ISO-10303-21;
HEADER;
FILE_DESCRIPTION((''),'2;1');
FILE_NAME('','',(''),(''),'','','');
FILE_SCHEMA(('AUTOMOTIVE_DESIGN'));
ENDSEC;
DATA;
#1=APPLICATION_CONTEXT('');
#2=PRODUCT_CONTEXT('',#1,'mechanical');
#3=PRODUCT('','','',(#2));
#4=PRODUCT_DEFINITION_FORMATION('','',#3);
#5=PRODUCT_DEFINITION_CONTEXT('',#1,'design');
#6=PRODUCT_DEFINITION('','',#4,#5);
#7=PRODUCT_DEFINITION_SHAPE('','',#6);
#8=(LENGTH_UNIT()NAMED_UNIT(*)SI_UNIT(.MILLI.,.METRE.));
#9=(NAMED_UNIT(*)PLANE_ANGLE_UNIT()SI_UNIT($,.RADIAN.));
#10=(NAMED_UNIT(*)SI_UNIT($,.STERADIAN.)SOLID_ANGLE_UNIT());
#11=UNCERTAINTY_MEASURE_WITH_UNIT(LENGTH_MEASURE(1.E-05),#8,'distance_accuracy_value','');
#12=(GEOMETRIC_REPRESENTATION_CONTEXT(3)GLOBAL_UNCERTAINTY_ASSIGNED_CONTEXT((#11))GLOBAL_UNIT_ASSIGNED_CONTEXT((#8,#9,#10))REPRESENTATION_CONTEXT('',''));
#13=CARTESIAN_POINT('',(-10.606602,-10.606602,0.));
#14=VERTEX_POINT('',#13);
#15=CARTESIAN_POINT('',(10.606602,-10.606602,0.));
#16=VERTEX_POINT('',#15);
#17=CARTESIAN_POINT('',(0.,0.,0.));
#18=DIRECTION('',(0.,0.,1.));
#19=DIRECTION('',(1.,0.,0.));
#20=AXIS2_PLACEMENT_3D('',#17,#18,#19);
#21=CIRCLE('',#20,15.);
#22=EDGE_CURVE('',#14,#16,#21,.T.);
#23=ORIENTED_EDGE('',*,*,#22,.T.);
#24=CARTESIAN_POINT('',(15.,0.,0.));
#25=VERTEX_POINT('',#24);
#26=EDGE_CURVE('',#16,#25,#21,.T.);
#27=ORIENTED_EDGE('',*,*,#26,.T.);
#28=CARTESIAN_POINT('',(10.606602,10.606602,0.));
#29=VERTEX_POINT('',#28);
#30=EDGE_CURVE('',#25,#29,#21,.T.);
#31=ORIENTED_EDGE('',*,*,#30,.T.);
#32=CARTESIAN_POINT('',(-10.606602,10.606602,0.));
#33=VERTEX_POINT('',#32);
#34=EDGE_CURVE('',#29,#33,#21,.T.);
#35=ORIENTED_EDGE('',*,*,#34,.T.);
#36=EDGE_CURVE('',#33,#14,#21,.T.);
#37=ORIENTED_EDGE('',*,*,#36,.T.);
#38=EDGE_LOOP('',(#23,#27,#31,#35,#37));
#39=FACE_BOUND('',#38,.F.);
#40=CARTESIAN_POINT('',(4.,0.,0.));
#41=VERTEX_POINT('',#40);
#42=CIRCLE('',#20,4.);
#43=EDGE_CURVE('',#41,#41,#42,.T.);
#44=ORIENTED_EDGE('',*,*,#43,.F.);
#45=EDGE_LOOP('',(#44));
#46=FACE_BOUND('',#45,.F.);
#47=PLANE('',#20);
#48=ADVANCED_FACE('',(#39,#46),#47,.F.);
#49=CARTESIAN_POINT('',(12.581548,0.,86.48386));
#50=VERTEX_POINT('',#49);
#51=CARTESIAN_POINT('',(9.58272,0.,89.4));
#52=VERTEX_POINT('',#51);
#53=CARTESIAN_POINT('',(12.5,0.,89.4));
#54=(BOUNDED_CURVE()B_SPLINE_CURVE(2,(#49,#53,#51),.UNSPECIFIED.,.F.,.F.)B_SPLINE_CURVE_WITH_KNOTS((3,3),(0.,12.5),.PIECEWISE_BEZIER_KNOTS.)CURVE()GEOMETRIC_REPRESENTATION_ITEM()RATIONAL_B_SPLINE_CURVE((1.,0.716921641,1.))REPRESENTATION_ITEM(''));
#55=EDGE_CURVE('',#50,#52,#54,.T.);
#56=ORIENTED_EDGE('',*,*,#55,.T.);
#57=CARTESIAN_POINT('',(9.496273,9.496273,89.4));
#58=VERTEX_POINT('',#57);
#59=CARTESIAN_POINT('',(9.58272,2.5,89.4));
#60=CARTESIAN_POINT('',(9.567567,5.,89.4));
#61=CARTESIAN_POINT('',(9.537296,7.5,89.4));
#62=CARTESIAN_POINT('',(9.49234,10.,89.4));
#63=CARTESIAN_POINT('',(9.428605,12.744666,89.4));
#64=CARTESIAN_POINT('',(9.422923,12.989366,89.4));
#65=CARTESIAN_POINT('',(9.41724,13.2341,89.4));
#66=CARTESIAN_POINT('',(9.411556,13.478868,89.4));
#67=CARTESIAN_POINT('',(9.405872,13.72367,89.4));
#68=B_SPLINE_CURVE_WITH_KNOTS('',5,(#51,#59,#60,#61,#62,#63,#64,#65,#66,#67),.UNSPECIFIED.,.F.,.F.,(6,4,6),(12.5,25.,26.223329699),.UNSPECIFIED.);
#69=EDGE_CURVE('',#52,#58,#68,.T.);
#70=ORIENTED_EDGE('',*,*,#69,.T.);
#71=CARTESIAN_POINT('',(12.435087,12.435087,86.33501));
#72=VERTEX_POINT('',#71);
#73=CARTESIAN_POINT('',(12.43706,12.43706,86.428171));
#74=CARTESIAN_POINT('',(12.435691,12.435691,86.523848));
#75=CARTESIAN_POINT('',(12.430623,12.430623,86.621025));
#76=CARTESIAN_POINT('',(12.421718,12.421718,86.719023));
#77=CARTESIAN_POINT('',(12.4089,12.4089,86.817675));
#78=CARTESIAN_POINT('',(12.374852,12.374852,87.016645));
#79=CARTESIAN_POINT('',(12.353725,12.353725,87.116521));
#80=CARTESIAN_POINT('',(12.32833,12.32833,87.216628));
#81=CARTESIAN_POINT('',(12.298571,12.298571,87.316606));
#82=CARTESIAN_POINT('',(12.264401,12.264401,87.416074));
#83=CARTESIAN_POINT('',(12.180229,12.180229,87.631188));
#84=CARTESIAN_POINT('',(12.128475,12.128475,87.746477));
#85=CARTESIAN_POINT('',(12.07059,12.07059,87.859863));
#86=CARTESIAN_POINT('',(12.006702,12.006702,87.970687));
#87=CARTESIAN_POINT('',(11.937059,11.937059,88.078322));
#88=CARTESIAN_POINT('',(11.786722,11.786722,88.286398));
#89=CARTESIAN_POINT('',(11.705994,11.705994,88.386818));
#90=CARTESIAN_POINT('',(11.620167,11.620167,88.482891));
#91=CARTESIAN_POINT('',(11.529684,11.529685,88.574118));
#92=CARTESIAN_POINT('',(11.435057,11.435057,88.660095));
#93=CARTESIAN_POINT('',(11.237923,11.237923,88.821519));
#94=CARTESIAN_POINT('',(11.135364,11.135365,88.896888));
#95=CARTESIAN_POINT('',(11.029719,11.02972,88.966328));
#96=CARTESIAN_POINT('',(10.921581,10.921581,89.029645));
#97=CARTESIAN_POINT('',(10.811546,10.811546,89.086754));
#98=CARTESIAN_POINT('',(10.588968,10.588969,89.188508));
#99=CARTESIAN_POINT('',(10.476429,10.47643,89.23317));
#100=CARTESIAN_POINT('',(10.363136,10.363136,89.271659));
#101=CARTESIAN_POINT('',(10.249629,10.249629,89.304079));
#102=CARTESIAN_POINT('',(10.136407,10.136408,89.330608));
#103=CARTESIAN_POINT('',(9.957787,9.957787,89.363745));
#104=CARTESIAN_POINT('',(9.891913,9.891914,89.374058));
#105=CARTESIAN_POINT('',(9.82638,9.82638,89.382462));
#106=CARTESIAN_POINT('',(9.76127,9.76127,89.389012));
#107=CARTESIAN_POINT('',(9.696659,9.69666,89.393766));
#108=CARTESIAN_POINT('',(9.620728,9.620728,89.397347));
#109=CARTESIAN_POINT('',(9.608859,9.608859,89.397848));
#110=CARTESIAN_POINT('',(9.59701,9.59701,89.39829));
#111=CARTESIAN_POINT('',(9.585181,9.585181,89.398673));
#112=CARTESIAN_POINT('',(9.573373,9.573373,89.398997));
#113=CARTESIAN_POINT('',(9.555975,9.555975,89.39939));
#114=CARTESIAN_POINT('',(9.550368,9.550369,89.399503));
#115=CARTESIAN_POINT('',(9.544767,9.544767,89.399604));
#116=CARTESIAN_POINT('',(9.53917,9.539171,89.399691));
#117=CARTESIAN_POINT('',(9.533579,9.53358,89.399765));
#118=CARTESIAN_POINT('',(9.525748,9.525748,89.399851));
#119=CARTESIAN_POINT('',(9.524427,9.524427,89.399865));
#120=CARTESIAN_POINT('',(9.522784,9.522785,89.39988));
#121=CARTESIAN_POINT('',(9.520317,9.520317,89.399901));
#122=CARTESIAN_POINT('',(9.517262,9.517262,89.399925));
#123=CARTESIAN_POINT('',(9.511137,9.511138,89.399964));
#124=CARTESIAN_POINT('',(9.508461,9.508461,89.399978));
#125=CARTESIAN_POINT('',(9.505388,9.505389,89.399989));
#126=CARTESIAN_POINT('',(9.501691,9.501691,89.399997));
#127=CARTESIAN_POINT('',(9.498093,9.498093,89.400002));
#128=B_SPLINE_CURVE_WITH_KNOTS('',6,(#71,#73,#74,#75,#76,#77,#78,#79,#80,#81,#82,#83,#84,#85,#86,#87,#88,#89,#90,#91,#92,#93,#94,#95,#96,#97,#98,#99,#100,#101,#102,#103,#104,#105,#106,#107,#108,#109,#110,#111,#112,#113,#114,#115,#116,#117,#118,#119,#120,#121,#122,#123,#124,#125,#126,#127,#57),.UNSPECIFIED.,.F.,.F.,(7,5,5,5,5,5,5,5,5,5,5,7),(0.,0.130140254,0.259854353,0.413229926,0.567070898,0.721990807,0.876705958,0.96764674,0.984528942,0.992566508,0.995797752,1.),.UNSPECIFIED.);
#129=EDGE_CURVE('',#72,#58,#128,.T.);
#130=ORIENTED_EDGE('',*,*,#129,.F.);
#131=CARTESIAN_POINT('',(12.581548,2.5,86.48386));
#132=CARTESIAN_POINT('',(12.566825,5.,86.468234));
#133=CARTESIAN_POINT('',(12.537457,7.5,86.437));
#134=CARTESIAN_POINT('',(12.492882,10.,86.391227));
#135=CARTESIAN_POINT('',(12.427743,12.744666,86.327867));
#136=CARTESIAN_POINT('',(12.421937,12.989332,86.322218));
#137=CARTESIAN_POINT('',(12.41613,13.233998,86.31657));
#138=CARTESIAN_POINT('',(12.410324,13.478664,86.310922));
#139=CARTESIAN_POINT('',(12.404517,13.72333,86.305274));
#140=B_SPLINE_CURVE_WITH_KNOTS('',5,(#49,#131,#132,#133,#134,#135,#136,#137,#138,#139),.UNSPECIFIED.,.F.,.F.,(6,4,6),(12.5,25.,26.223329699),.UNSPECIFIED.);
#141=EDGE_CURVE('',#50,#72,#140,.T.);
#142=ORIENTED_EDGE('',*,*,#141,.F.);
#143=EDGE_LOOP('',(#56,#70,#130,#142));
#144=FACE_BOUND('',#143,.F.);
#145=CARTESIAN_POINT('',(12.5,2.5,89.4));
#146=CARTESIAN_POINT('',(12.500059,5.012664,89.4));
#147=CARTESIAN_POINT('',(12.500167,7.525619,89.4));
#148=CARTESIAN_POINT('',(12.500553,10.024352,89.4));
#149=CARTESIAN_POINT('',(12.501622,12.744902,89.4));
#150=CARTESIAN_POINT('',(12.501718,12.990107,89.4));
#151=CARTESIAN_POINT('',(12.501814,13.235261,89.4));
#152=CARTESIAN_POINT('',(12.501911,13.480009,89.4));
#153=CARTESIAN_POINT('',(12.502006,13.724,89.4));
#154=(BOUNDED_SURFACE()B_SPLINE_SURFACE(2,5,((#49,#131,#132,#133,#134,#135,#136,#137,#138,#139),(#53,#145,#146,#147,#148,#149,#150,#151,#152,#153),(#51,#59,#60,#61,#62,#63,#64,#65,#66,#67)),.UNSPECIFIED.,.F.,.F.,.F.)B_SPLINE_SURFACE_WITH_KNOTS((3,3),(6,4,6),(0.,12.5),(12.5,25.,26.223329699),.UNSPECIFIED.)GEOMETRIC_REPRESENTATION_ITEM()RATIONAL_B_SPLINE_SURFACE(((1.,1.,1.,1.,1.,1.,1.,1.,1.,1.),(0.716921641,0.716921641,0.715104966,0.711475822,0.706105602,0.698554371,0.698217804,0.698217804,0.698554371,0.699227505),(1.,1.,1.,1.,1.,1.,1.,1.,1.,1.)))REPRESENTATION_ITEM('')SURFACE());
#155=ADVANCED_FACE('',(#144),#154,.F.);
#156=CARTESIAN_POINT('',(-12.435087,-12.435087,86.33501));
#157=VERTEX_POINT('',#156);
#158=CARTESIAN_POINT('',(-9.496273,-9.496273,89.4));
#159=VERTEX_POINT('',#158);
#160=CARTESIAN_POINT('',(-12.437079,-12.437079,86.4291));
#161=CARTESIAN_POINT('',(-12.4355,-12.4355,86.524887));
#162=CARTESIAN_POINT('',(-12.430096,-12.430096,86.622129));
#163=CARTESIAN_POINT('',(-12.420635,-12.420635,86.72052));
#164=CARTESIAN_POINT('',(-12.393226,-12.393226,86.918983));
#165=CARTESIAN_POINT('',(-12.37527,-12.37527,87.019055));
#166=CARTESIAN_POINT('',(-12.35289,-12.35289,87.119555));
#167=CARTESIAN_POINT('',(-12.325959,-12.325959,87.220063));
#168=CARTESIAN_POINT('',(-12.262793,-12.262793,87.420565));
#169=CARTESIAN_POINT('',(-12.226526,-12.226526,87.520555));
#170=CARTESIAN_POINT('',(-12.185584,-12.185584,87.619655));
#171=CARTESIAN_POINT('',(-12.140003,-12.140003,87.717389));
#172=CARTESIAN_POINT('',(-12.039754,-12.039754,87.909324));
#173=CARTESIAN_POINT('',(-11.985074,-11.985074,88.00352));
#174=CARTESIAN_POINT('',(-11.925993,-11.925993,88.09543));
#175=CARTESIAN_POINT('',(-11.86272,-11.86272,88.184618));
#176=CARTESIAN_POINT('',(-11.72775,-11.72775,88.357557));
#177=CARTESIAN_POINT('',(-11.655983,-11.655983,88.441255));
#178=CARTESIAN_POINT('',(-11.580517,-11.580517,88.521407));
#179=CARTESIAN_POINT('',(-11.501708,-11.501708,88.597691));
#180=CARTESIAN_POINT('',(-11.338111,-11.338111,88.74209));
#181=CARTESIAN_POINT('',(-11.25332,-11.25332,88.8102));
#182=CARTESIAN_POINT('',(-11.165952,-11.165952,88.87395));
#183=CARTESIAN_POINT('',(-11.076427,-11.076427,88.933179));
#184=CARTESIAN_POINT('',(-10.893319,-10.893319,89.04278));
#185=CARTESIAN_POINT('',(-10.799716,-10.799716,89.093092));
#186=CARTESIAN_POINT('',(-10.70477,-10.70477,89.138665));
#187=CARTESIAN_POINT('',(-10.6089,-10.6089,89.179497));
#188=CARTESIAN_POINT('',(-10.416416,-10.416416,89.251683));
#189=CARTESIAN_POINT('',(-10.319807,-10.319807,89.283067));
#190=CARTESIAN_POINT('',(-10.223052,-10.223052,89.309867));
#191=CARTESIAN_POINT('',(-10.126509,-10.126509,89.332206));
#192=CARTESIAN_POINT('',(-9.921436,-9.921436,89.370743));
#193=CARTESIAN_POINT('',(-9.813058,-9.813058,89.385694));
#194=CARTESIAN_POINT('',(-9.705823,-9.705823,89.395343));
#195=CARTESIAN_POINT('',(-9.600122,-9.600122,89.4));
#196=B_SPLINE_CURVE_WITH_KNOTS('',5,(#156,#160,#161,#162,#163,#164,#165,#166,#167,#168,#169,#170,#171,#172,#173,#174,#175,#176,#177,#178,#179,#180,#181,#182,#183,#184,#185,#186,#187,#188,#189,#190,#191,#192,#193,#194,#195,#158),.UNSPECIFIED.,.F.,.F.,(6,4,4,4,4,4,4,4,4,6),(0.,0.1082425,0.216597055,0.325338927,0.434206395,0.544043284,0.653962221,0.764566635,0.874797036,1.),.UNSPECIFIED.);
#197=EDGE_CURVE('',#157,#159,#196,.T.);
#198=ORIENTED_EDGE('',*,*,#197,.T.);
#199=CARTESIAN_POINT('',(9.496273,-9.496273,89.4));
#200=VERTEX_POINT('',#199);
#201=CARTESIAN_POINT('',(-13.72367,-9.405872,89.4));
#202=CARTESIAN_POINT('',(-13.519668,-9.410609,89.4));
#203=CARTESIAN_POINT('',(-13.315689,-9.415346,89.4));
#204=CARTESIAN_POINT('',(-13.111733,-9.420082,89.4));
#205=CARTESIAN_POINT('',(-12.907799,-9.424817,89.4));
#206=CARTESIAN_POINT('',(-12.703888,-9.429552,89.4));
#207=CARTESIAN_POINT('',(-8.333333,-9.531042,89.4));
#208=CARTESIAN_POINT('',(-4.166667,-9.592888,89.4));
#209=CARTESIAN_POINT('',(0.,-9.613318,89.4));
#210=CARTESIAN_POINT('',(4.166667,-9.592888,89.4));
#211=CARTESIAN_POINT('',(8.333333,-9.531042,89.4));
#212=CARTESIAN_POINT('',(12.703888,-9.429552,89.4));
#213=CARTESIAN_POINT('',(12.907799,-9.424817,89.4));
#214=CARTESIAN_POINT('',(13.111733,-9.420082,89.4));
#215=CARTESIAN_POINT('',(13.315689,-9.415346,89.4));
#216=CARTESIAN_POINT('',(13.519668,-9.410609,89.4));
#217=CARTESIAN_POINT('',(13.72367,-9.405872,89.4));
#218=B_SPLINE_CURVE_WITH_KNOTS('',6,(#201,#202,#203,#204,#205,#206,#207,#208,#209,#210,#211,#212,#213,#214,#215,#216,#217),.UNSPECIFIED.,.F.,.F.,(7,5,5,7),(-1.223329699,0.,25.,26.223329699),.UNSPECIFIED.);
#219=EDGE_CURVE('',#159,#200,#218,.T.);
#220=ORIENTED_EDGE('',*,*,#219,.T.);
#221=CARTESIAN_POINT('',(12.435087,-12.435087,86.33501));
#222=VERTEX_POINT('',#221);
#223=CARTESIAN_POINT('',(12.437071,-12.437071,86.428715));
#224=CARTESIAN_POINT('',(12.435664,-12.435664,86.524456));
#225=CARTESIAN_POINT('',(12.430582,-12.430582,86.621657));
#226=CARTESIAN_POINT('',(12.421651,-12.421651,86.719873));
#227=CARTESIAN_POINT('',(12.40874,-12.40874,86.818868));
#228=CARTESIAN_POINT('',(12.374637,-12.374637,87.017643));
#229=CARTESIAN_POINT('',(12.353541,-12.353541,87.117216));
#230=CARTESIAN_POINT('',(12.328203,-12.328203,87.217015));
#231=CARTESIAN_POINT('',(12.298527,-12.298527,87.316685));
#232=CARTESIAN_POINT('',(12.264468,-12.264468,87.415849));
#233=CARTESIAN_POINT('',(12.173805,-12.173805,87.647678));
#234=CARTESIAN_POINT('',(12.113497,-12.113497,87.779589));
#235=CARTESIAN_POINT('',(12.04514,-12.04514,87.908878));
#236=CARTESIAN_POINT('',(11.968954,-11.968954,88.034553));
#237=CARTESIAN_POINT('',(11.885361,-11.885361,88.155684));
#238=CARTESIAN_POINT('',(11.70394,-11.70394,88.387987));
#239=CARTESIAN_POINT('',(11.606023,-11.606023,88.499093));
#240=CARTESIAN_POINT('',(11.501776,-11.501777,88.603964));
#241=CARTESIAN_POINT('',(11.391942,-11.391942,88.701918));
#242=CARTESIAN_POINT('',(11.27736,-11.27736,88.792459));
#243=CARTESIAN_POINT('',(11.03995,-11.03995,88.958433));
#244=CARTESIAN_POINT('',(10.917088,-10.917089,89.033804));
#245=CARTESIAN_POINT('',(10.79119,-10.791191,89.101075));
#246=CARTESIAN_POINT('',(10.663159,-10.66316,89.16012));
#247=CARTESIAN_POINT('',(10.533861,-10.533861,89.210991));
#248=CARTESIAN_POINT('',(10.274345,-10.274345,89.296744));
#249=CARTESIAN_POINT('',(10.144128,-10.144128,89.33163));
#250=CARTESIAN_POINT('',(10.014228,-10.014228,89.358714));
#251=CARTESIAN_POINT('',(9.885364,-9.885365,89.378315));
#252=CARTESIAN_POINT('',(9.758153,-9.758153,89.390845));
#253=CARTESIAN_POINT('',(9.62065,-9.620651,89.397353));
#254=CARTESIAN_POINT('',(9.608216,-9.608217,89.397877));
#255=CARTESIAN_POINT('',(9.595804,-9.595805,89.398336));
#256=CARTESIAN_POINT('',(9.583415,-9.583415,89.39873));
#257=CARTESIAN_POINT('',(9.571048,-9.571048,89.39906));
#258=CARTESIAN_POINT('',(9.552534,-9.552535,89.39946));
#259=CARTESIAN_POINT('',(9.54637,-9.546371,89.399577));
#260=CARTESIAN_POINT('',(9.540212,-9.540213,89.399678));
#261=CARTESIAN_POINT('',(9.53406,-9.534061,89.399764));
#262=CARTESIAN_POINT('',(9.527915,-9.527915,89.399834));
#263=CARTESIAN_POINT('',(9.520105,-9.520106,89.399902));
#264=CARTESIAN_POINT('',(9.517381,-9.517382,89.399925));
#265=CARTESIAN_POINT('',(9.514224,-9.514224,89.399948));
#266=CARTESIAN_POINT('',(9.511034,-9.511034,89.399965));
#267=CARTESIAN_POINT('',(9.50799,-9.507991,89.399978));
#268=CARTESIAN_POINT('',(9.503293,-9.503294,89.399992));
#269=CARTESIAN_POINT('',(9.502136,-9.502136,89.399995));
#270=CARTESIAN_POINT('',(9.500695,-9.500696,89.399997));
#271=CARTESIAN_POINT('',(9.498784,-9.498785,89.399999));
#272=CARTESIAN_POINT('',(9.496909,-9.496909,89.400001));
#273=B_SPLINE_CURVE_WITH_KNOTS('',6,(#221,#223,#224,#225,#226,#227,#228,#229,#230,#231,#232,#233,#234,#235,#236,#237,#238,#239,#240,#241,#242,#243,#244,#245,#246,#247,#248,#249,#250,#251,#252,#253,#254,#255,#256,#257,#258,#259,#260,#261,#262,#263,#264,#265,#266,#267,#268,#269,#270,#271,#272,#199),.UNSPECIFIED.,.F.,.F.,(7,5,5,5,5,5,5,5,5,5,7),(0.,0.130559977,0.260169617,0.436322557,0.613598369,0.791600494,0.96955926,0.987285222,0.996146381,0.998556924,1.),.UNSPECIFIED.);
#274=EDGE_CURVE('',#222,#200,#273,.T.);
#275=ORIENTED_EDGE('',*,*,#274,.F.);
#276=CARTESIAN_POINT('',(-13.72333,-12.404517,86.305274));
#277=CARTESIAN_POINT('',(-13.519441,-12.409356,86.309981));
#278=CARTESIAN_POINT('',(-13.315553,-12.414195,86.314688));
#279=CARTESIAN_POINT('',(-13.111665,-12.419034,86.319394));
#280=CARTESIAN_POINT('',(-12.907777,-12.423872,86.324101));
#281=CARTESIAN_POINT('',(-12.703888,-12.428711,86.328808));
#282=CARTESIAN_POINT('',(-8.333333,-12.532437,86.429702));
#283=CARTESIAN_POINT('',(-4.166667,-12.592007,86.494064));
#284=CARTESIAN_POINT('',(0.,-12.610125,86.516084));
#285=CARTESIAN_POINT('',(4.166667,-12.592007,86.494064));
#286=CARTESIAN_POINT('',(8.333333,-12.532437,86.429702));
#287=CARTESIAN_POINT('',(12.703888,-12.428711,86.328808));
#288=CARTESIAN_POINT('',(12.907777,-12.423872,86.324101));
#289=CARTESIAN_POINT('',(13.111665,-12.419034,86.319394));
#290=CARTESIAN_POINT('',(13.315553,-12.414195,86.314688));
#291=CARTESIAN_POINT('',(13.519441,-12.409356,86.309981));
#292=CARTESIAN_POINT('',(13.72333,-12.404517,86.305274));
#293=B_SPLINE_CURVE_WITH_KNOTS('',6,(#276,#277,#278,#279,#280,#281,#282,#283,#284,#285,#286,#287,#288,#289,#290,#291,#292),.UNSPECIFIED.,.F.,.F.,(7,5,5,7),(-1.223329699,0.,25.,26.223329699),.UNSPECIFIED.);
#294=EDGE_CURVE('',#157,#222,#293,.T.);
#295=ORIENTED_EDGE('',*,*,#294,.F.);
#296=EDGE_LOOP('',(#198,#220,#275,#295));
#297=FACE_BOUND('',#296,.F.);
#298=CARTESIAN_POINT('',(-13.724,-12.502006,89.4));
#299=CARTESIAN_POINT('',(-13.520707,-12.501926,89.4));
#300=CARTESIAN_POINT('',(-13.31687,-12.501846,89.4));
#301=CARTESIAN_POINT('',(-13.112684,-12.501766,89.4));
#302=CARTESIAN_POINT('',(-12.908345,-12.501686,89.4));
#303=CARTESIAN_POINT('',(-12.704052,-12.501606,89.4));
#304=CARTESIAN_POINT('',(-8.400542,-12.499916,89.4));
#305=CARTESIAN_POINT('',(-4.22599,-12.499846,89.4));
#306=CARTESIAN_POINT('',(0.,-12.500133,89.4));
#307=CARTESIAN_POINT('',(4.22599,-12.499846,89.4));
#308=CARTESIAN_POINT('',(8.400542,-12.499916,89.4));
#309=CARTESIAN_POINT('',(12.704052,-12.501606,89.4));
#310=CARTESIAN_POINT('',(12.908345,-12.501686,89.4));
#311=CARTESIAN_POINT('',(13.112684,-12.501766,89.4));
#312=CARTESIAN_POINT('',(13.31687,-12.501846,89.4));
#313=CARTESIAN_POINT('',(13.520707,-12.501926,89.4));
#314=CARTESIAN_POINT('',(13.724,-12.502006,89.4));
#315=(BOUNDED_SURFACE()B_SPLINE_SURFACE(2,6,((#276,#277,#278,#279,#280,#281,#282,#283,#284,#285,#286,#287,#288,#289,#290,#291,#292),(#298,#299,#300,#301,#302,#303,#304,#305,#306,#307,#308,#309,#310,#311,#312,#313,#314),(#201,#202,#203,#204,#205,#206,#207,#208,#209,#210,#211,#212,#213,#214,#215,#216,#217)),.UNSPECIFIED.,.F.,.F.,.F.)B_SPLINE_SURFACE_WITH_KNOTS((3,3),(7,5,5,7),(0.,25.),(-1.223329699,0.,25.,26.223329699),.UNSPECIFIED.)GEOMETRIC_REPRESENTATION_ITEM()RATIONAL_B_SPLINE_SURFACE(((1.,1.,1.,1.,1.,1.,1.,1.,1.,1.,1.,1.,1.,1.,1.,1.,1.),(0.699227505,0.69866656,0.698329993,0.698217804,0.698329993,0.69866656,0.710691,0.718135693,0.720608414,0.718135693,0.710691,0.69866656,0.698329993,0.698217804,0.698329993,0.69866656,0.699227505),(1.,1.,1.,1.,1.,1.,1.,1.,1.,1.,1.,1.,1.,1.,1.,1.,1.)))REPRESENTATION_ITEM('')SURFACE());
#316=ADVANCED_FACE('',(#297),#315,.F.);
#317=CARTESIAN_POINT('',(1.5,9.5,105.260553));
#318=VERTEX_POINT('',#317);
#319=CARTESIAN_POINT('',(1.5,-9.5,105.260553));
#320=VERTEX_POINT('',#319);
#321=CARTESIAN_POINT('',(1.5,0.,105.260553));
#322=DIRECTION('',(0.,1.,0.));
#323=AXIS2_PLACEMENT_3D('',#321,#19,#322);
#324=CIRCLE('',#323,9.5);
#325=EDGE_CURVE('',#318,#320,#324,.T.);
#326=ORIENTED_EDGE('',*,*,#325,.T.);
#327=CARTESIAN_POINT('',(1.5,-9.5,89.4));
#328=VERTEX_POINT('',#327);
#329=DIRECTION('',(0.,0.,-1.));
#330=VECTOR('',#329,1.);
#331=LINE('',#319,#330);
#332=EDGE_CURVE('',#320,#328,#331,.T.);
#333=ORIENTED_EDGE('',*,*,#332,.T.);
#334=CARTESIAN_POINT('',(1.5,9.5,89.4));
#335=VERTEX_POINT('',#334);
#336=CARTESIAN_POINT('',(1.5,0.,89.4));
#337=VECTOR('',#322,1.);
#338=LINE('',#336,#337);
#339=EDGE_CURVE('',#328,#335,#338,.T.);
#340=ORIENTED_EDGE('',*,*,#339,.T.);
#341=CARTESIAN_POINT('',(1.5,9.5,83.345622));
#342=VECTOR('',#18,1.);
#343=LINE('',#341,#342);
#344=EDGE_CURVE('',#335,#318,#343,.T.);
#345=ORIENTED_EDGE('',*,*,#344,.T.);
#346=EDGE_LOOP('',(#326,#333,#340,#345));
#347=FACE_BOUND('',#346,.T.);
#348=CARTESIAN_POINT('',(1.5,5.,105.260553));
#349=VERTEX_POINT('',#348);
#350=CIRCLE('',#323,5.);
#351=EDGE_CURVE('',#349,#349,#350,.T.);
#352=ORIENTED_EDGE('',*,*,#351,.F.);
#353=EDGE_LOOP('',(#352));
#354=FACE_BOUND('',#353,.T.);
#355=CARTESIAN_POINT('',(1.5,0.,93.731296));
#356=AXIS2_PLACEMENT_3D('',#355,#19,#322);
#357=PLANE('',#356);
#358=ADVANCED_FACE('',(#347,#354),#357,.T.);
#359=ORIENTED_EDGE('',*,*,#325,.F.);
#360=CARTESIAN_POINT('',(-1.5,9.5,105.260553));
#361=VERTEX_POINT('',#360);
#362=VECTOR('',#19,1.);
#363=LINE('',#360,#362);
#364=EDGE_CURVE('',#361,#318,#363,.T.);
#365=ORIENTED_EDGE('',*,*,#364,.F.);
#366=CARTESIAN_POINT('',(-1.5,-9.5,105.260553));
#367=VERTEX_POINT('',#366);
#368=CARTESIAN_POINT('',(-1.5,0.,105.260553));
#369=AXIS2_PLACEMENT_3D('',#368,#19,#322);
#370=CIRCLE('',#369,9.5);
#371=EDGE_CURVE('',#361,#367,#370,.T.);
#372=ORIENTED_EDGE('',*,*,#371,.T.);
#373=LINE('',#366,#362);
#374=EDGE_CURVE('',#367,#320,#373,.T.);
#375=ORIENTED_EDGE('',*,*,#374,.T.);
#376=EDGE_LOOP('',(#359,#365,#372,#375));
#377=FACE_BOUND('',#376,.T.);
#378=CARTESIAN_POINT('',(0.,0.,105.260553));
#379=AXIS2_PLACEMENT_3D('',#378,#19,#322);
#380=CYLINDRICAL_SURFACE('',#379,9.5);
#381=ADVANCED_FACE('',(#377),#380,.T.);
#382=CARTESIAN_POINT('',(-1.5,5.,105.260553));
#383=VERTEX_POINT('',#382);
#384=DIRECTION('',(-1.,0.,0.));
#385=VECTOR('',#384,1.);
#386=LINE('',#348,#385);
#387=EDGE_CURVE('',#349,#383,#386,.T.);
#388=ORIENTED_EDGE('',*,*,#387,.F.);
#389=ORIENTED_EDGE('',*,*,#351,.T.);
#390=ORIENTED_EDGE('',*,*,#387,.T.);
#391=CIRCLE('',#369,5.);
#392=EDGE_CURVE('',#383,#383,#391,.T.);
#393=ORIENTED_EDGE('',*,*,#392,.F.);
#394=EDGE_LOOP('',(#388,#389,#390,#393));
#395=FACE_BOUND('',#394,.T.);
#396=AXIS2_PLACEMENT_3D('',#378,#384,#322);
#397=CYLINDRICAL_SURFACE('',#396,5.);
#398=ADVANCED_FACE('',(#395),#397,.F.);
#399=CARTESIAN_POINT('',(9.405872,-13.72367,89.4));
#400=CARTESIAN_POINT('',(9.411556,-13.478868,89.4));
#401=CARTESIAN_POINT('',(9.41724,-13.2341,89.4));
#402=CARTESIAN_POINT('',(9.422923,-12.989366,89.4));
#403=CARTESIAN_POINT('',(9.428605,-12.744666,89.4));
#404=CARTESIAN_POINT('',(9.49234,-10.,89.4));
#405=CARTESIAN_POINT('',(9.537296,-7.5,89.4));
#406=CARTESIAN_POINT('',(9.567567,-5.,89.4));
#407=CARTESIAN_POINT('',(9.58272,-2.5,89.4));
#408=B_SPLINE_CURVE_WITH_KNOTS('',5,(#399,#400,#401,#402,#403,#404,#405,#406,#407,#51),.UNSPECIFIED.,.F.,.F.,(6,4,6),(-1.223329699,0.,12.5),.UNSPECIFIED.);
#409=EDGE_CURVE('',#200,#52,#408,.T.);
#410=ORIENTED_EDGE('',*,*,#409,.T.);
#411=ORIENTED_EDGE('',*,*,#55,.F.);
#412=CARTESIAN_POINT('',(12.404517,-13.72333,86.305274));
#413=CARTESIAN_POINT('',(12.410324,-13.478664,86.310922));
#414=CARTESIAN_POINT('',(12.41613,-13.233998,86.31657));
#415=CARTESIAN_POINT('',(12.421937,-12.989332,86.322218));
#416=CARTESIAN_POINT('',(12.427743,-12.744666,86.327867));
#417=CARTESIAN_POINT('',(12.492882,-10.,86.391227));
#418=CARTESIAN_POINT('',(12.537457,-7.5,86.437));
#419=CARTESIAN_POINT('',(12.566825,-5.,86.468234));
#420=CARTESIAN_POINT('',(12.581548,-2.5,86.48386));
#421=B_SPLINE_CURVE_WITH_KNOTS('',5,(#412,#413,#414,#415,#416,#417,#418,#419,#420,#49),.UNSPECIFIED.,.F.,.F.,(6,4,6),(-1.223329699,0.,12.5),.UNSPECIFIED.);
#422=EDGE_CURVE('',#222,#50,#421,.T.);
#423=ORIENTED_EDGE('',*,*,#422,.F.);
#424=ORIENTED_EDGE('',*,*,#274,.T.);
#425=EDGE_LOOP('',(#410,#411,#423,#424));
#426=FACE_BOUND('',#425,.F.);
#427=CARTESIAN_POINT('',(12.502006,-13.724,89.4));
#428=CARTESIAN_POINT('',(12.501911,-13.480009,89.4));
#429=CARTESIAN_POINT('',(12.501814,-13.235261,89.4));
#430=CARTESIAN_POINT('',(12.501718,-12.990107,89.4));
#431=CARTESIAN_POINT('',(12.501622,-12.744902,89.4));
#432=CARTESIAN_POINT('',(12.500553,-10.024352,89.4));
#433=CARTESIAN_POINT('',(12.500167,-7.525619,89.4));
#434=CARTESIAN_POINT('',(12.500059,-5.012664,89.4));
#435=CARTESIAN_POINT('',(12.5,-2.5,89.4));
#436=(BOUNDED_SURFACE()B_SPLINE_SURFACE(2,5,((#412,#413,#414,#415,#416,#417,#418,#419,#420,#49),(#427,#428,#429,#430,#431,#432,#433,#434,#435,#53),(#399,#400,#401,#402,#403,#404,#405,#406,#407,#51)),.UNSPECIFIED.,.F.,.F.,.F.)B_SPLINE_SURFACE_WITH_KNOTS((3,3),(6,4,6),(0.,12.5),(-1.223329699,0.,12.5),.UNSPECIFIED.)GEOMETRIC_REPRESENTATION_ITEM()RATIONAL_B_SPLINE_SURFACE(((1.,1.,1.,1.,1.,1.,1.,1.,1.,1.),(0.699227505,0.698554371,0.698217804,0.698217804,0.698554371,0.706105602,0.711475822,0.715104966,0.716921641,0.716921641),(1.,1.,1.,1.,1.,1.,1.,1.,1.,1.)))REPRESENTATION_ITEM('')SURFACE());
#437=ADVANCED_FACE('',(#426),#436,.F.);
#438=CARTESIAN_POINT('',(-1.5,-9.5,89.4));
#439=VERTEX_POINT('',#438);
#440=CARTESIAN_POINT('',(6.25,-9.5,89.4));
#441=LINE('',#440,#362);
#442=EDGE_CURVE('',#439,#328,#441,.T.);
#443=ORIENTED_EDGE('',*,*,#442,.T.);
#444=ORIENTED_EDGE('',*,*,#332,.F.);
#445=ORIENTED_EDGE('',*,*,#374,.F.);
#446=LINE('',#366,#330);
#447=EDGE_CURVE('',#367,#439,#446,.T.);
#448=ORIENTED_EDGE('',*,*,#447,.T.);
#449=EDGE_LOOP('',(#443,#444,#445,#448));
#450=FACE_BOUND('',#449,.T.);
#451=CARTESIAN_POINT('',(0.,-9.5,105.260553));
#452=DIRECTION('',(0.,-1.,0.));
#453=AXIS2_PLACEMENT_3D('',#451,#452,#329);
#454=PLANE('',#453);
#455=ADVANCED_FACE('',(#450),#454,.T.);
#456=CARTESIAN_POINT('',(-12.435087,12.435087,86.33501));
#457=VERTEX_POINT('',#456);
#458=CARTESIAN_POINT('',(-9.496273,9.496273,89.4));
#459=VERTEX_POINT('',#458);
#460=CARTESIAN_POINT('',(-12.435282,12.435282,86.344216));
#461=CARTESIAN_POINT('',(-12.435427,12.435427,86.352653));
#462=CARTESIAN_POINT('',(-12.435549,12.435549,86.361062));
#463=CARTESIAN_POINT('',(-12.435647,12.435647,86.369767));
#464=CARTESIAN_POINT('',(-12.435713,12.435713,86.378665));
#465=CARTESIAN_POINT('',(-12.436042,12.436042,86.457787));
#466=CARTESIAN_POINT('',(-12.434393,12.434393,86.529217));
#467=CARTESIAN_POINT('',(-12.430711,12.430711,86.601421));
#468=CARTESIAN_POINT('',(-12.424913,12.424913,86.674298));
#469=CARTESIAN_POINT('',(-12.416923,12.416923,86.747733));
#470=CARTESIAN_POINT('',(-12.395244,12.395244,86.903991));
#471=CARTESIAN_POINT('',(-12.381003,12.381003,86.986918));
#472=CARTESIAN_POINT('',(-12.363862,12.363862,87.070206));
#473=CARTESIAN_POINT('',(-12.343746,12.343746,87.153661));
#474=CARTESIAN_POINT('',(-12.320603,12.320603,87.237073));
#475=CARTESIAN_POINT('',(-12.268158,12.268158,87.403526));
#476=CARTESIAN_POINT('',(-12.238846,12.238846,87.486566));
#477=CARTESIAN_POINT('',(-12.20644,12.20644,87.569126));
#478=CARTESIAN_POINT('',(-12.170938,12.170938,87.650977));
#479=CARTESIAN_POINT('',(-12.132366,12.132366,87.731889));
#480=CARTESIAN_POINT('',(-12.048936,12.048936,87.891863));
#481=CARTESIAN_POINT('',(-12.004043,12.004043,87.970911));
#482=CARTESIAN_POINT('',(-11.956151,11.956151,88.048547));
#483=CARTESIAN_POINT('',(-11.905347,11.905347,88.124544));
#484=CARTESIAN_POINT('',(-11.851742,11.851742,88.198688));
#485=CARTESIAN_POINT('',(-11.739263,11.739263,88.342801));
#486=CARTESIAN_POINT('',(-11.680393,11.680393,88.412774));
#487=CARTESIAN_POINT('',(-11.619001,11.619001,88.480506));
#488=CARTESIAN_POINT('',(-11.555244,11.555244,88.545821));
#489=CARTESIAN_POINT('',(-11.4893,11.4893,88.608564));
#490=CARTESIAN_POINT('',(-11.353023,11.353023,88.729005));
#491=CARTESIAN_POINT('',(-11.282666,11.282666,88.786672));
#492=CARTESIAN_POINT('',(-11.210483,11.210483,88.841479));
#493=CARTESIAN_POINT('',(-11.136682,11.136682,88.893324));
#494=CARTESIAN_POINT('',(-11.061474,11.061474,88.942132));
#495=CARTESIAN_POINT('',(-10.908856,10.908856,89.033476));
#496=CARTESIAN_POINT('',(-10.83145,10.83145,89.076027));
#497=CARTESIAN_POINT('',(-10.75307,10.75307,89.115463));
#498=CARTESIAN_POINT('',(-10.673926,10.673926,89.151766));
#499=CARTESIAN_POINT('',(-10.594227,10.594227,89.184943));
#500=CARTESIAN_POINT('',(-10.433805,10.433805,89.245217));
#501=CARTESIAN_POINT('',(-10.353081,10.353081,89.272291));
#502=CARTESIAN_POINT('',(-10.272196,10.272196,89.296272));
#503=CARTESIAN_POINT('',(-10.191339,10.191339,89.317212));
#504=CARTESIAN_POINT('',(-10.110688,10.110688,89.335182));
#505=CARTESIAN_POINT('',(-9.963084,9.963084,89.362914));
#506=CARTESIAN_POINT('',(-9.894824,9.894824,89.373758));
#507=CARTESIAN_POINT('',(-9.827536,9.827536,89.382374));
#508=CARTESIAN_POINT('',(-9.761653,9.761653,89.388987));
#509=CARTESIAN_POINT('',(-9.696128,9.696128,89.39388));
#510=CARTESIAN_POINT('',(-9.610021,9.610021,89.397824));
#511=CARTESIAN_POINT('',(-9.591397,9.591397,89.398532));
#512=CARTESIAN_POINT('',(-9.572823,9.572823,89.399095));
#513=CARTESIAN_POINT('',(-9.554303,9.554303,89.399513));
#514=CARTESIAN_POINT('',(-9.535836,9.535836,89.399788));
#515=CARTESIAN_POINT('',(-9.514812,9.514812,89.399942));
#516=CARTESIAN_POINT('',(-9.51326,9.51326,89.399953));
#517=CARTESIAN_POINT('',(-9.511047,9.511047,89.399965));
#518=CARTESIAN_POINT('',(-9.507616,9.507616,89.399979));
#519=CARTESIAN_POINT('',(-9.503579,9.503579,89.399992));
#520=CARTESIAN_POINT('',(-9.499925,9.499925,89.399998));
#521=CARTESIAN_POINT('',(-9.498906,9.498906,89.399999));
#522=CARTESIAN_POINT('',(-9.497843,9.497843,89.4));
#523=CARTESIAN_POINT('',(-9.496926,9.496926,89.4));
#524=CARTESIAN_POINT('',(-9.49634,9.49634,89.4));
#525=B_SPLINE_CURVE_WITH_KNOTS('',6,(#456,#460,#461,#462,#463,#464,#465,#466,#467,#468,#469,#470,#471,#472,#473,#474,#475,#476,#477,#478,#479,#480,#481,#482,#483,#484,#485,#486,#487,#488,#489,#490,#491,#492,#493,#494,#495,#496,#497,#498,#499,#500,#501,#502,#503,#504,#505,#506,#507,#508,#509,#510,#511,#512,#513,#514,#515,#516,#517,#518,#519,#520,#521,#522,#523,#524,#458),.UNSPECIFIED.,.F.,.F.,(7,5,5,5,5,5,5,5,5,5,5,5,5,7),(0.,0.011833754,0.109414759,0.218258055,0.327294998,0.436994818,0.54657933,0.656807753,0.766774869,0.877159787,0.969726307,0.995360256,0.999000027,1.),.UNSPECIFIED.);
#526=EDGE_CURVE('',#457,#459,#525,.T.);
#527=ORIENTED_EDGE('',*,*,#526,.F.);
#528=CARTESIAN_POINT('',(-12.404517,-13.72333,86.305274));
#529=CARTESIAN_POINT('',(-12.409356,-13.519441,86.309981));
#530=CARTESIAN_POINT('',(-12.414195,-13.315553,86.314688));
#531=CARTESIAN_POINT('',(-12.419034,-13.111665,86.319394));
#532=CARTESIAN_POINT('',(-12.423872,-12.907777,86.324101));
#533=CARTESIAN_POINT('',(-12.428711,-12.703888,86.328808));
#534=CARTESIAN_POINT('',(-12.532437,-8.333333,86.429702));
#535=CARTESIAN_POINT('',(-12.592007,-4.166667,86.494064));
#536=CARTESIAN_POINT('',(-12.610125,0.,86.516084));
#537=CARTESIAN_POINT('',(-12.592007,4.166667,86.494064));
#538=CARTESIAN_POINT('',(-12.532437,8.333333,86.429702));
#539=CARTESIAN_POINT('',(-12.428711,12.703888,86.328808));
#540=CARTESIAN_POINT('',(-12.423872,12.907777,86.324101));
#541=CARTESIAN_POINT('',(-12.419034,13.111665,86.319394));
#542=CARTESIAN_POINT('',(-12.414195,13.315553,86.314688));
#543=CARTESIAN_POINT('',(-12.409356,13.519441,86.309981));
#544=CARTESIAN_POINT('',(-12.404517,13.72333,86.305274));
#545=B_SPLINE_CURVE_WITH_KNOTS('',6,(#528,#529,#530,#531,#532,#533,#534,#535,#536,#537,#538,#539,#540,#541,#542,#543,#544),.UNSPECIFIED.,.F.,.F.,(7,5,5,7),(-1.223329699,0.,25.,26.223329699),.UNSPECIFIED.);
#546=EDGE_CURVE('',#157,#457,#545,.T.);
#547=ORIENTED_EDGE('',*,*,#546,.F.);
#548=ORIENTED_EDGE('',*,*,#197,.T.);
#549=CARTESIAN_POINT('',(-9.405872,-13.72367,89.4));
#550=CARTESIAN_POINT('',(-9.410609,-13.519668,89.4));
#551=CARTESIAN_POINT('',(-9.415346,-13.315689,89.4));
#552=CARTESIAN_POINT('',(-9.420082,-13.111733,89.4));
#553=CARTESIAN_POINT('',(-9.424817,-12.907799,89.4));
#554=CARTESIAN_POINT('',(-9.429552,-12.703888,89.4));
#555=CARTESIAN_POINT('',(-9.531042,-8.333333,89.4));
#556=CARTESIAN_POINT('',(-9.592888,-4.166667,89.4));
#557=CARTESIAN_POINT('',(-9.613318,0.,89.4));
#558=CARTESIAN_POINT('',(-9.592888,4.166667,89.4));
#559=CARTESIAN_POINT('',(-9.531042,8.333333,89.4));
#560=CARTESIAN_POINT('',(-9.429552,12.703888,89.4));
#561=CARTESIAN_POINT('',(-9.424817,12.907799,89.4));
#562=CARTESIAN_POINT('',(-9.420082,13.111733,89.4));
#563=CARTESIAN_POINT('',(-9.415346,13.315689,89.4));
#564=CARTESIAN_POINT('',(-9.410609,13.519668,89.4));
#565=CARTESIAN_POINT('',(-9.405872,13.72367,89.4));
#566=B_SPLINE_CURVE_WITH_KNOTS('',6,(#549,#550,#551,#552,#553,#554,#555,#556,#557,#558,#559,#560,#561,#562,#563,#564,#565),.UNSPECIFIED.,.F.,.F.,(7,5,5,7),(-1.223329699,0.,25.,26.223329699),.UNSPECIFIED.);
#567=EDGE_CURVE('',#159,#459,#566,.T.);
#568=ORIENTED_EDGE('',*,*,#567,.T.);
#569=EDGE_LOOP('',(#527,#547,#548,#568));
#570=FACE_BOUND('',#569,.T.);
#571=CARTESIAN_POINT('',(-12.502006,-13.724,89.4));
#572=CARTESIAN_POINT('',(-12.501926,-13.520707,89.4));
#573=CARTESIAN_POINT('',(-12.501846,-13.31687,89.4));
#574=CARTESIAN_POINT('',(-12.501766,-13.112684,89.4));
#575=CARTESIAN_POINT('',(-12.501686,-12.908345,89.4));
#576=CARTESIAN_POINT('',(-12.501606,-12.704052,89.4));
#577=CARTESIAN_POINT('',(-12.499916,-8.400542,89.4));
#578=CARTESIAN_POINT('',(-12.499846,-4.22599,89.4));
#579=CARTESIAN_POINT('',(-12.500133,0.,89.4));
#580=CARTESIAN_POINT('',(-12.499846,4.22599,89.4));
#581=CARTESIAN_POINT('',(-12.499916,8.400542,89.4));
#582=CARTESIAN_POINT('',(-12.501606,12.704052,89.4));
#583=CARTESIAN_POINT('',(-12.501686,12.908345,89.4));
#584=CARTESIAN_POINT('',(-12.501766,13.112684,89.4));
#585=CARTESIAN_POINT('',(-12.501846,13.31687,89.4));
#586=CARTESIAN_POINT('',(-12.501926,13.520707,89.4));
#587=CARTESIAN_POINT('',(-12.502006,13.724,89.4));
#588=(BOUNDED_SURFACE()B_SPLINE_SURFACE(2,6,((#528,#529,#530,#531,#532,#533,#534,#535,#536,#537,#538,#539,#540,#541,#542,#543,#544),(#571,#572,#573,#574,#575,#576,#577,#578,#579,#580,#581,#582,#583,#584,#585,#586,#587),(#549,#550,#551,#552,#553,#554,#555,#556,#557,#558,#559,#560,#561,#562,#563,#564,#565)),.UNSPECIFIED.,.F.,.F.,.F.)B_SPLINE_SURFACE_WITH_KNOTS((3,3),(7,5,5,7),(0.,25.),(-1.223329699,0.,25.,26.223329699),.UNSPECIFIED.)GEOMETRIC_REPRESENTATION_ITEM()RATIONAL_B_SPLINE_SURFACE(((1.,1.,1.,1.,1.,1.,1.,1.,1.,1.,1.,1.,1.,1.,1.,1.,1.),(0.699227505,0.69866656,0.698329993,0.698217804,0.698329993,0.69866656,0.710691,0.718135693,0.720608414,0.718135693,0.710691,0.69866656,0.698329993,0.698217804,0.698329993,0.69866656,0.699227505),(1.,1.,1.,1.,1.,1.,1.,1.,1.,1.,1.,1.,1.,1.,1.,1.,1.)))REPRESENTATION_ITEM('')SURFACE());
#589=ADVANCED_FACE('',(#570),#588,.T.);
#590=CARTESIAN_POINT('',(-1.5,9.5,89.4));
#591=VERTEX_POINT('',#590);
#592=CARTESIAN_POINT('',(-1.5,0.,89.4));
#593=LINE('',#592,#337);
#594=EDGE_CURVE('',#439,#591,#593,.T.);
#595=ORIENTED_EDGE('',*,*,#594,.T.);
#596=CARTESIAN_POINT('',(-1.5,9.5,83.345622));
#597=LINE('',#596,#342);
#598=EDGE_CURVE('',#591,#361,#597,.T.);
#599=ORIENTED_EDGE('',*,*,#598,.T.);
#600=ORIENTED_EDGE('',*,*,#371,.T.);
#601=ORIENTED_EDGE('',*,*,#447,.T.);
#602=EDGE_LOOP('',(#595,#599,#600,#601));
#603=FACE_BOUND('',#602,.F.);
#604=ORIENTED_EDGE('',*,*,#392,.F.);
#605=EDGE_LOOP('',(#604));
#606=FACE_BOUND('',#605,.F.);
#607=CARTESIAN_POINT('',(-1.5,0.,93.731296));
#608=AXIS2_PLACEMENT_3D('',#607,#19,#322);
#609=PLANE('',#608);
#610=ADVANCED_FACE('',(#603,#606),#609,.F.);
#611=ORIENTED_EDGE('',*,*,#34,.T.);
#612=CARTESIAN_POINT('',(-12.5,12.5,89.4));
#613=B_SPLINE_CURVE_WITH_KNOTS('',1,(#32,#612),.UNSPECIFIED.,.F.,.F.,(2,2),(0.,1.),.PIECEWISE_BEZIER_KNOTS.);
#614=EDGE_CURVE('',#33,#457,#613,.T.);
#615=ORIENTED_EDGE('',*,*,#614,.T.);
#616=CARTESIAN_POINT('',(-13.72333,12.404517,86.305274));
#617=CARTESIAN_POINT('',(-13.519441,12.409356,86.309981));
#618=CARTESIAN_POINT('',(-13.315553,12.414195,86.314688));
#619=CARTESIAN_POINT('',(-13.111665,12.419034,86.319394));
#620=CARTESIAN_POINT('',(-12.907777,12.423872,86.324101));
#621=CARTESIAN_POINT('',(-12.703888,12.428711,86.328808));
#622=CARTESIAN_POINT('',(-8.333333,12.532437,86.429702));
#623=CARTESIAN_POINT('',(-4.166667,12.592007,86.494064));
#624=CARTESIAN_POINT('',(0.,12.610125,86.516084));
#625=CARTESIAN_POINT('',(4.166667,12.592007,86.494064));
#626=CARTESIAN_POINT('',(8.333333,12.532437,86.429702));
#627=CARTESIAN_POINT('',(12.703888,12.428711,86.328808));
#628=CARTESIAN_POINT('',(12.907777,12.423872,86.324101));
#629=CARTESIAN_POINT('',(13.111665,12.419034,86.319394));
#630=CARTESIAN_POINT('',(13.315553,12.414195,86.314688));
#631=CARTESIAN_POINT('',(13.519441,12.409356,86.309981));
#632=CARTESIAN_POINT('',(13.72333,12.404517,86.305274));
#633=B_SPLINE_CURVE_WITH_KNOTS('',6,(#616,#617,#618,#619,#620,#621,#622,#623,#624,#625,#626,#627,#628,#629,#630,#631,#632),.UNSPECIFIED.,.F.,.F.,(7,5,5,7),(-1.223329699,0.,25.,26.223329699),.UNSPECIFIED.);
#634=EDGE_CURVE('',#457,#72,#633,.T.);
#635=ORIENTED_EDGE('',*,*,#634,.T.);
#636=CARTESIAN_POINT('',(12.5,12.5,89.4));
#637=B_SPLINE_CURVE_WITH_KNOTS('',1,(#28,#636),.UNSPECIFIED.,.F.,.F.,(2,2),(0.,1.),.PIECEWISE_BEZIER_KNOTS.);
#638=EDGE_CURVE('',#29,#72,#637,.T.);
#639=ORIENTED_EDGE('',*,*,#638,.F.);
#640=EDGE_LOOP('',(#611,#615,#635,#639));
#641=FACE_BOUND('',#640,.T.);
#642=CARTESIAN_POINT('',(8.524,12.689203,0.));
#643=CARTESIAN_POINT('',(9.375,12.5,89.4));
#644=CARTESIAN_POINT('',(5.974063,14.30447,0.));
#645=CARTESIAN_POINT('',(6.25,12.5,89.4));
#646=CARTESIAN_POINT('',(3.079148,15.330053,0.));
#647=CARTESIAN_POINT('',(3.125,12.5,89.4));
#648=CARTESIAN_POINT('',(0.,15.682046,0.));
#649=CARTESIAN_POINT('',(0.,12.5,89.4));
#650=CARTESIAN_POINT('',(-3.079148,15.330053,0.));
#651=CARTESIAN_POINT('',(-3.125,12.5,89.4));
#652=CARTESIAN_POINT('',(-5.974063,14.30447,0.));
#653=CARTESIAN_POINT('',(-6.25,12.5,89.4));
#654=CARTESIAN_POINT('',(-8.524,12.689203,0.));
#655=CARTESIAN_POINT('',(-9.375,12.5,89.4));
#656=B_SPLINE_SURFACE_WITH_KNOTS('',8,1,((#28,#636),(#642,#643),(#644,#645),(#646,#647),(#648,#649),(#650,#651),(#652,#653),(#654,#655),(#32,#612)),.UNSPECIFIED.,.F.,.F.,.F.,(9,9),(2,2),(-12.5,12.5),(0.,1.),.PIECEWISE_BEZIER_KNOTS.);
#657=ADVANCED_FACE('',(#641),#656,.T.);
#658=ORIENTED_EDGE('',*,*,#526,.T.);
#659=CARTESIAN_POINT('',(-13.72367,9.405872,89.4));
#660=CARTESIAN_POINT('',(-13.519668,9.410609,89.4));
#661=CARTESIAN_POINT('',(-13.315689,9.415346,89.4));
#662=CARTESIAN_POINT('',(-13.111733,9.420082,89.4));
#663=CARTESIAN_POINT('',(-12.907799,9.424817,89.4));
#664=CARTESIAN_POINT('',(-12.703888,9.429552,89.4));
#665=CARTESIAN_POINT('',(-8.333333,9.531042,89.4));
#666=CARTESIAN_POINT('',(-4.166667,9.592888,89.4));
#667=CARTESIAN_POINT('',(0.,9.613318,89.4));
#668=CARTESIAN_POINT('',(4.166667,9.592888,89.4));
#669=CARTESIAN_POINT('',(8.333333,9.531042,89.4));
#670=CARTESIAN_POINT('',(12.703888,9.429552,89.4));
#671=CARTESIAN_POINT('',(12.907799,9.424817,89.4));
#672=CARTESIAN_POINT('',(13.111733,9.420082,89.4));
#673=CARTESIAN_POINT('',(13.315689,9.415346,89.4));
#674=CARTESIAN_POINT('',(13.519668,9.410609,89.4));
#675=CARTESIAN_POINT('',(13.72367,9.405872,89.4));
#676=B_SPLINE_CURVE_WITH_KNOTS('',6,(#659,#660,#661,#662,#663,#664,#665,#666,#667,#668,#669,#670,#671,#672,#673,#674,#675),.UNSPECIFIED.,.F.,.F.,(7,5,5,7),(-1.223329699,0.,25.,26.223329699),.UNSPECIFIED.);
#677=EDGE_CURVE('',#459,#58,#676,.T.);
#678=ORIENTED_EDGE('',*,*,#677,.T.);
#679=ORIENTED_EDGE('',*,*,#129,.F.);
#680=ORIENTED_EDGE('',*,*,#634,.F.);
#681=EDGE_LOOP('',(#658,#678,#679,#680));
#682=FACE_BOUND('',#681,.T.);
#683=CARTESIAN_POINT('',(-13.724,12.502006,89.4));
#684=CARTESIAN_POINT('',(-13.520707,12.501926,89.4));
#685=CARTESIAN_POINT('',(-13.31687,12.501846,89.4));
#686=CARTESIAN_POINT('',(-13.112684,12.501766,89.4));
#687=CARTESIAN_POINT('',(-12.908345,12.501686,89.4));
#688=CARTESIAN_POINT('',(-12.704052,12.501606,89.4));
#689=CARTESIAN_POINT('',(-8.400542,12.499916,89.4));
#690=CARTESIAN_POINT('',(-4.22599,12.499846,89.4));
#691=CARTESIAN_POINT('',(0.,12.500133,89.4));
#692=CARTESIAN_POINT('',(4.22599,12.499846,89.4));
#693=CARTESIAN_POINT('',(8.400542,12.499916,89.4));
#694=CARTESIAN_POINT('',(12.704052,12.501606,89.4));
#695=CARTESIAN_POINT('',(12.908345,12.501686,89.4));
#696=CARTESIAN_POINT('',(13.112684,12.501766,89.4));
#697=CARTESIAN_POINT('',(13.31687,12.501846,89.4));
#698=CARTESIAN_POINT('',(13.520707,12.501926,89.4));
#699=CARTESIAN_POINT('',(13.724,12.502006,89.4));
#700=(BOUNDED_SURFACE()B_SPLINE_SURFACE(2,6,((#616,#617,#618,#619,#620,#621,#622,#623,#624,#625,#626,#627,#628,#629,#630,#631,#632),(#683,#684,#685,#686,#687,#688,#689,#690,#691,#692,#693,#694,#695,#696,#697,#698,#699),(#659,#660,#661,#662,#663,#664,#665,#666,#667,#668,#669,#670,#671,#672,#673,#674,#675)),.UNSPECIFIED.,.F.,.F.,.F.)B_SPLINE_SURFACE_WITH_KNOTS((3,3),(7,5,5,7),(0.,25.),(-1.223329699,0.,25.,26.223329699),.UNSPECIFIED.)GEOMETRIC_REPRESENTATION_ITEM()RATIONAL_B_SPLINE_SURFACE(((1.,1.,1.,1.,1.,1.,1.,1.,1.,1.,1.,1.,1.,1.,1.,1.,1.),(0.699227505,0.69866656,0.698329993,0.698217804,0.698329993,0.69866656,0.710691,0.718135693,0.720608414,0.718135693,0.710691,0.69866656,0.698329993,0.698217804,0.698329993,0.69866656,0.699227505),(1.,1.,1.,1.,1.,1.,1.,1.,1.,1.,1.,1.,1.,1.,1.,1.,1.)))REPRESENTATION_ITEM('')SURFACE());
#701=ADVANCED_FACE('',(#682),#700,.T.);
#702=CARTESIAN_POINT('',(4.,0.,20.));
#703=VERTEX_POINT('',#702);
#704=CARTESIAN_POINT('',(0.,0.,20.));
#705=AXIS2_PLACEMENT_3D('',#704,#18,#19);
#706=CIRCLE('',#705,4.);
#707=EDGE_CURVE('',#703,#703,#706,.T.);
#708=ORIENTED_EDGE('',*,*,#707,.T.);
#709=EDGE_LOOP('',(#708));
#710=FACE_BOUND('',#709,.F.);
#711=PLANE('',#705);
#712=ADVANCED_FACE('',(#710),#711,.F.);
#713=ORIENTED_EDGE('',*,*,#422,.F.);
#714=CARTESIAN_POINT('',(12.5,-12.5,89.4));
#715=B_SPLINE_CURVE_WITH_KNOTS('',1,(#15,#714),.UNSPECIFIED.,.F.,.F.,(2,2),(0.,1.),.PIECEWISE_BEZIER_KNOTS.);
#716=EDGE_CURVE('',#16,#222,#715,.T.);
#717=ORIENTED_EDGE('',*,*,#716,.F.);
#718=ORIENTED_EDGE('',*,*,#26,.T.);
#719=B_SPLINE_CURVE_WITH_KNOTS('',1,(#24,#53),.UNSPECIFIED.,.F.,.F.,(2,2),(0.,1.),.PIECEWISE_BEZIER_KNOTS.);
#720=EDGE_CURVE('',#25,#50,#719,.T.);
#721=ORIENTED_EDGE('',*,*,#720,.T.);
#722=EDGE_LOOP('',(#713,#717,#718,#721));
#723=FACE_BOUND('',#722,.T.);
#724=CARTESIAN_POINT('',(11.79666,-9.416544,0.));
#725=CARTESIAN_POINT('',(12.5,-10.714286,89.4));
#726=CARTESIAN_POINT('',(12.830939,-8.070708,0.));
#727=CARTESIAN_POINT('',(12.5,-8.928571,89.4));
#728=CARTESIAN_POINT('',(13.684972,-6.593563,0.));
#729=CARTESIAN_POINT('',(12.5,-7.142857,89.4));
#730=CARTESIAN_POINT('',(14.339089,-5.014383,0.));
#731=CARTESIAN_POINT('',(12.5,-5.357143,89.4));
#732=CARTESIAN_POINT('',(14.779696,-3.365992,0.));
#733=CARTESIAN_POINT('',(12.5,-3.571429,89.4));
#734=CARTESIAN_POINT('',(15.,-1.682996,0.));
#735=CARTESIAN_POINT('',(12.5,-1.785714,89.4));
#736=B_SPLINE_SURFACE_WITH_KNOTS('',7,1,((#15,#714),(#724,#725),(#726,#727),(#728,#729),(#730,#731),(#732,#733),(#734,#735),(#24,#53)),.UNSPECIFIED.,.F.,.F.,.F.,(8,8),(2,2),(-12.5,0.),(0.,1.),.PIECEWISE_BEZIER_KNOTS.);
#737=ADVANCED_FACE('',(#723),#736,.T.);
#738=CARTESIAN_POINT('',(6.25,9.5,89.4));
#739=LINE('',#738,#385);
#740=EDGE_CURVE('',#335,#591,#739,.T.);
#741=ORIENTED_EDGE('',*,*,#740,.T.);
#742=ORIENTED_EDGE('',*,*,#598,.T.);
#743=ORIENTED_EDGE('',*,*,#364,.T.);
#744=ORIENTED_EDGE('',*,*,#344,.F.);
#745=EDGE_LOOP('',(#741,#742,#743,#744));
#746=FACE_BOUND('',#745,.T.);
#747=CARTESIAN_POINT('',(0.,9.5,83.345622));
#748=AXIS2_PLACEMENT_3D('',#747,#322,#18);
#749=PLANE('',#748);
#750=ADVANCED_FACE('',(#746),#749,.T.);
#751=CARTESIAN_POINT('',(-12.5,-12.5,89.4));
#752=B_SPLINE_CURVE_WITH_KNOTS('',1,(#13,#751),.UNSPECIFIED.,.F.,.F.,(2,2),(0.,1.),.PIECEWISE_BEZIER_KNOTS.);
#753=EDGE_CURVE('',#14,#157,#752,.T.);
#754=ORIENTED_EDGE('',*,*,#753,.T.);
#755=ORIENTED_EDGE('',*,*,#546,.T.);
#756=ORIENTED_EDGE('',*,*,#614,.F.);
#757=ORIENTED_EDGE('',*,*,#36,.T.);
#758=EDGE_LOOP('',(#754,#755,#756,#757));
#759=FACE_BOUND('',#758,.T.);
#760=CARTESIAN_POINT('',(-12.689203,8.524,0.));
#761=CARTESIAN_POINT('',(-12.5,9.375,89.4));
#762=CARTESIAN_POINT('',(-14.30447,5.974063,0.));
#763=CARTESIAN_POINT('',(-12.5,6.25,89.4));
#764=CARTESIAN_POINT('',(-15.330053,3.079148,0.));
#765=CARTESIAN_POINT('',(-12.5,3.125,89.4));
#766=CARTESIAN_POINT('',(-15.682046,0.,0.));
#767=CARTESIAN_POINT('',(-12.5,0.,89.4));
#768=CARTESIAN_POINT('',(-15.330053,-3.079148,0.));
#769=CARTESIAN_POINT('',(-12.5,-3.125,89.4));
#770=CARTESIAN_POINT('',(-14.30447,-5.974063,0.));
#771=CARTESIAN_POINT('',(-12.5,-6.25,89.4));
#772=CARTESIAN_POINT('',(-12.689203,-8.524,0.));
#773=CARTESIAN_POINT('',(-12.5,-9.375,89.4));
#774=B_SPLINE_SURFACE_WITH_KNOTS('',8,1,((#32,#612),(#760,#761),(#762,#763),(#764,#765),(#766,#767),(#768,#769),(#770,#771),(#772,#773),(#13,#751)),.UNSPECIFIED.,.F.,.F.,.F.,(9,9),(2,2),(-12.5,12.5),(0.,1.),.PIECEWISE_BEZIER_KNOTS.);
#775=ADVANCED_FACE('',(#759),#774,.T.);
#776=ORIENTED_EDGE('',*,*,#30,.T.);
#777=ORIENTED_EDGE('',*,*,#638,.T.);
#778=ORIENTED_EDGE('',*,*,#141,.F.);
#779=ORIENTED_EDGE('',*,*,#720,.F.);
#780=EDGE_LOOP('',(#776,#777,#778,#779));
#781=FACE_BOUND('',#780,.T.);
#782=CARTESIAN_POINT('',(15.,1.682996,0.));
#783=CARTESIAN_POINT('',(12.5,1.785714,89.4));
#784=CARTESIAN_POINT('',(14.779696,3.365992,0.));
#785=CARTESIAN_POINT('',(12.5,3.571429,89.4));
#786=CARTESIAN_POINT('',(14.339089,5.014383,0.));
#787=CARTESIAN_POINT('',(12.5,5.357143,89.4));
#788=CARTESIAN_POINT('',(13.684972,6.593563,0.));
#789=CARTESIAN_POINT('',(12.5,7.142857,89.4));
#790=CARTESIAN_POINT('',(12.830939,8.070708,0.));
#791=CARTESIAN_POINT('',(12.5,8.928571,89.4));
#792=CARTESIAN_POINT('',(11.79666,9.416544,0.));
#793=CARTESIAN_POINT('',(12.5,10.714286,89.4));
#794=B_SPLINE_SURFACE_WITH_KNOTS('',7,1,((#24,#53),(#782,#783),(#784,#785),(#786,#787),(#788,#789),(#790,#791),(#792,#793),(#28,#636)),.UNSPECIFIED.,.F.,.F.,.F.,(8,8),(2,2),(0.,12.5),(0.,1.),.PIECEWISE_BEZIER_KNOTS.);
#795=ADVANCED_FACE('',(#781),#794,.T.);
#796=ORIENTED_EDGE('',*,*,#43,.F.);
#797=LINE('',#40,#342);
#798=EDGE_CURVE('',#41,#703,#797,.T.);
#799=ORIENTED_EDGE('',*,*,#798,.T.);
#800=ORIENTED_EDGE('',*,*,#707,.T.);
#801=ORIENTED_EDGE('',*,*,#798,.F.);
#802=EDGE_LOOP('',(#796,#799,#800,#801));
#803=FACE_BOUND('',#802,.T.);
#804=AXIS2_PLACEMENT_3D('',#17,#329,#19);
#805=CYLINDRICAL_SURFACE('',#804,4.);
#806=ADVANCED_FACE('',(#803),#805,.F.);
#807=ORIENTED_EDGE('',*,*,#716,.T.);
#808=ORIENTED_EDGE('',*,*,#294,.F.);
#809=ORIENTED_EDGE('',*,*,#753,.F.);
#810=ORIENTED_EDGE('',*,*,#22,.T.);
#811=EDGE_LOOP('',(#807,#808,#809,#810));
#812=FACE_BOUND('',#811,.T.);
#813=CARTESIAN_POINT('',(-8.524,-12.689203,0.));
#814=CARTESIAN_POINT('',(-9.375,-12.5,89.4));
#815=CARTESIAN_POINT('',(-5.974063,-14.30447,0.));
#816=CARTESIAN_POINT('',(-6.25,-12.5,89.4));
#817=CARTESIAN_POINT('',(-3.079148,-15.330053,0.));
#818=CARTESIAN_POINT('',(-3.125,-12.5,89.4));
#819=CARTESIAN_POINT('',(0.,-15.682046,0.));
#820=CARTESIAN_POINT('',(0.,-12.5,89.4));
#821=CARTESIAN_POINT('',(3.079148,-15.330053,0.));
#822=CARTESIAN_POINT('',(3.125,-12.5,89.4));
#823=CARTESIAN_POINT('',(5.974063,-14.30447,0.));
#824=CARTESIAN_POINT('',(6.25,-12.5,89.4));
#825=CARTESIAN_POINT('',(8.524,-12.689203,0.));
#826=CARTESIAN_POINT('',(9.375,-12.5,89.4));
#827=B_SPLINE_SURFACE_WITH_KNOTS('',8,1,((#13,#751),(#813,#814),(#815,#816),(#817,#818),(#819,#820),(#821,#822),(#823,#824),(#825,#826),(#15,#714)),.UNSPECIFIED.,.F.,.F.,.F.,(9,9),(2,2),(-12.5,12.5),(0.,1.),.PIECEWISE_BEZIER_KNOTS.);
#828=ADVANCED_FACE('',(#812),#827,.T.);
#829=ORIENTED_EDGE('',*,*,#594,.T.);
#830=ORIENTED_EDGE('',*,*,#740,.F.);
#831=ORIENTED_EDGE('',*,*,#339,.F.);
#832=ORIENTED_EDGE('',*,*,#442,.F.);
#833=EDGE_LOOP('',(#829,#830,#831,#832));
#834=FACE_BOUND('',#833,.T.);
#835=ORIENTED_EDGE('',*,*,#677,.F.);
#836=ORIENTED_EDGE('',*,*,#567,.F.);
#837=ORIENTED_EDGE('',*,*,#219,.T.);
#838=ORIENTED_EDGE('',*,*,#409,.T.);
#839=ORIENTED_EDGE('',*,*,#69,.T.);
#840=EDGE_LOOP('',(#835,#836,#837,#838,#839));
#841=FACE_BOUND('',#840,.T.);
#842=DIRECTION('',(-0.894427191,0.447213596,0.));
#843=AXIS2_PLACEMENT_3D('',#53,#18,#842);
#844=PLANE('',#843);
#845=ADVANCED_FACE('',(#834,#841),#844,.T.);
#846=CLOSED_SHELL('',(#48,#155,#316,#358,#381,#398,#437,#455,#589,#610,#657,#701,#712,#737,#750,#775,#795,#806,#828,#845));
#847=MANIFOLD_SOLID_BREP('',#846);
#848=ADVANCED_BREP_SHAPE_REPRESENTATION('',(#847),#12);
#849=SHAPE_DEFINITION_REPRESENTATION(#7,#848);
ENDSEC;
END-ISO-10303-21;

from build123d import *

# Parameters (mm, degrees)
F0_R     = 15
F2_W     = 25
F2_H     = 25
F4_R     = 3
F5_R     = 5
F6_DEPTH = 1.5
F7_R     = 4
F8_DEPTH = 20


with BuildPart() as f3:
    # F0 (on Top) → F3 section 0
    with BuildSketch(Plane.XY):
        Circle(F0_R)
    # F2 (on offset) → F3 section 1
    with BuildSketch(Plane.XY.offset(89.4)):
        Rectangle(F2_W, F2_H)
    loft()

    # F4
    f4_edges = [f3.edges().sort_by_distance(p)[0] for p in [
        (12.5, 6.25, 89.4),
        (12.5, -6.25, 89.4),
        (0, 12.5, 89.4),
        (-12.5, 0, 89.4),
        (0, -12.5, 89.4),
    ]]
    fillet(f4_edges, radius=F4_R)

    # F5 (on Right) → F6 (join, symmetric)
    with BuildSketch(Plane.YZ):
        with BuildLine():
            Line((9.5, 83.3456217407), (9.5, 105.2605534294))
            ThreePointArc((9.5, 105.2605534294), (0, 95.7605534294), (-9.5, 105.2605534294))
            Line((-9.5, 105.2605534294), (-9.5, 83.3456217407))
            Line((-9.5, 83.3456217407), (9.5, 83.3456217407))
        make_face()
        with BuildLine():
            ThreePointArc((-9.5, 105.2605534294), (0, 95.7605534294), (9.5, 105.2605534294))
            ThreePointArc((9.5, 105.2605534294), (0, 114.7605534294), (-9.5, 105.2605534294))
        make_face()
        with Locations((0, 105.2605534294)):
            Circle(F5_R, mode=Mode.SUBTRACT)
    extrude(amount=F6_DEPTH, both=True)

    # F7 (on Top) → F8 (cut)
    with BuildSketch(Plane.XY):
        Circle(F7_R)
    extrude(amount=F8_DEPTH, mode=Mode.SUBTRACT)


solid = f3.part
